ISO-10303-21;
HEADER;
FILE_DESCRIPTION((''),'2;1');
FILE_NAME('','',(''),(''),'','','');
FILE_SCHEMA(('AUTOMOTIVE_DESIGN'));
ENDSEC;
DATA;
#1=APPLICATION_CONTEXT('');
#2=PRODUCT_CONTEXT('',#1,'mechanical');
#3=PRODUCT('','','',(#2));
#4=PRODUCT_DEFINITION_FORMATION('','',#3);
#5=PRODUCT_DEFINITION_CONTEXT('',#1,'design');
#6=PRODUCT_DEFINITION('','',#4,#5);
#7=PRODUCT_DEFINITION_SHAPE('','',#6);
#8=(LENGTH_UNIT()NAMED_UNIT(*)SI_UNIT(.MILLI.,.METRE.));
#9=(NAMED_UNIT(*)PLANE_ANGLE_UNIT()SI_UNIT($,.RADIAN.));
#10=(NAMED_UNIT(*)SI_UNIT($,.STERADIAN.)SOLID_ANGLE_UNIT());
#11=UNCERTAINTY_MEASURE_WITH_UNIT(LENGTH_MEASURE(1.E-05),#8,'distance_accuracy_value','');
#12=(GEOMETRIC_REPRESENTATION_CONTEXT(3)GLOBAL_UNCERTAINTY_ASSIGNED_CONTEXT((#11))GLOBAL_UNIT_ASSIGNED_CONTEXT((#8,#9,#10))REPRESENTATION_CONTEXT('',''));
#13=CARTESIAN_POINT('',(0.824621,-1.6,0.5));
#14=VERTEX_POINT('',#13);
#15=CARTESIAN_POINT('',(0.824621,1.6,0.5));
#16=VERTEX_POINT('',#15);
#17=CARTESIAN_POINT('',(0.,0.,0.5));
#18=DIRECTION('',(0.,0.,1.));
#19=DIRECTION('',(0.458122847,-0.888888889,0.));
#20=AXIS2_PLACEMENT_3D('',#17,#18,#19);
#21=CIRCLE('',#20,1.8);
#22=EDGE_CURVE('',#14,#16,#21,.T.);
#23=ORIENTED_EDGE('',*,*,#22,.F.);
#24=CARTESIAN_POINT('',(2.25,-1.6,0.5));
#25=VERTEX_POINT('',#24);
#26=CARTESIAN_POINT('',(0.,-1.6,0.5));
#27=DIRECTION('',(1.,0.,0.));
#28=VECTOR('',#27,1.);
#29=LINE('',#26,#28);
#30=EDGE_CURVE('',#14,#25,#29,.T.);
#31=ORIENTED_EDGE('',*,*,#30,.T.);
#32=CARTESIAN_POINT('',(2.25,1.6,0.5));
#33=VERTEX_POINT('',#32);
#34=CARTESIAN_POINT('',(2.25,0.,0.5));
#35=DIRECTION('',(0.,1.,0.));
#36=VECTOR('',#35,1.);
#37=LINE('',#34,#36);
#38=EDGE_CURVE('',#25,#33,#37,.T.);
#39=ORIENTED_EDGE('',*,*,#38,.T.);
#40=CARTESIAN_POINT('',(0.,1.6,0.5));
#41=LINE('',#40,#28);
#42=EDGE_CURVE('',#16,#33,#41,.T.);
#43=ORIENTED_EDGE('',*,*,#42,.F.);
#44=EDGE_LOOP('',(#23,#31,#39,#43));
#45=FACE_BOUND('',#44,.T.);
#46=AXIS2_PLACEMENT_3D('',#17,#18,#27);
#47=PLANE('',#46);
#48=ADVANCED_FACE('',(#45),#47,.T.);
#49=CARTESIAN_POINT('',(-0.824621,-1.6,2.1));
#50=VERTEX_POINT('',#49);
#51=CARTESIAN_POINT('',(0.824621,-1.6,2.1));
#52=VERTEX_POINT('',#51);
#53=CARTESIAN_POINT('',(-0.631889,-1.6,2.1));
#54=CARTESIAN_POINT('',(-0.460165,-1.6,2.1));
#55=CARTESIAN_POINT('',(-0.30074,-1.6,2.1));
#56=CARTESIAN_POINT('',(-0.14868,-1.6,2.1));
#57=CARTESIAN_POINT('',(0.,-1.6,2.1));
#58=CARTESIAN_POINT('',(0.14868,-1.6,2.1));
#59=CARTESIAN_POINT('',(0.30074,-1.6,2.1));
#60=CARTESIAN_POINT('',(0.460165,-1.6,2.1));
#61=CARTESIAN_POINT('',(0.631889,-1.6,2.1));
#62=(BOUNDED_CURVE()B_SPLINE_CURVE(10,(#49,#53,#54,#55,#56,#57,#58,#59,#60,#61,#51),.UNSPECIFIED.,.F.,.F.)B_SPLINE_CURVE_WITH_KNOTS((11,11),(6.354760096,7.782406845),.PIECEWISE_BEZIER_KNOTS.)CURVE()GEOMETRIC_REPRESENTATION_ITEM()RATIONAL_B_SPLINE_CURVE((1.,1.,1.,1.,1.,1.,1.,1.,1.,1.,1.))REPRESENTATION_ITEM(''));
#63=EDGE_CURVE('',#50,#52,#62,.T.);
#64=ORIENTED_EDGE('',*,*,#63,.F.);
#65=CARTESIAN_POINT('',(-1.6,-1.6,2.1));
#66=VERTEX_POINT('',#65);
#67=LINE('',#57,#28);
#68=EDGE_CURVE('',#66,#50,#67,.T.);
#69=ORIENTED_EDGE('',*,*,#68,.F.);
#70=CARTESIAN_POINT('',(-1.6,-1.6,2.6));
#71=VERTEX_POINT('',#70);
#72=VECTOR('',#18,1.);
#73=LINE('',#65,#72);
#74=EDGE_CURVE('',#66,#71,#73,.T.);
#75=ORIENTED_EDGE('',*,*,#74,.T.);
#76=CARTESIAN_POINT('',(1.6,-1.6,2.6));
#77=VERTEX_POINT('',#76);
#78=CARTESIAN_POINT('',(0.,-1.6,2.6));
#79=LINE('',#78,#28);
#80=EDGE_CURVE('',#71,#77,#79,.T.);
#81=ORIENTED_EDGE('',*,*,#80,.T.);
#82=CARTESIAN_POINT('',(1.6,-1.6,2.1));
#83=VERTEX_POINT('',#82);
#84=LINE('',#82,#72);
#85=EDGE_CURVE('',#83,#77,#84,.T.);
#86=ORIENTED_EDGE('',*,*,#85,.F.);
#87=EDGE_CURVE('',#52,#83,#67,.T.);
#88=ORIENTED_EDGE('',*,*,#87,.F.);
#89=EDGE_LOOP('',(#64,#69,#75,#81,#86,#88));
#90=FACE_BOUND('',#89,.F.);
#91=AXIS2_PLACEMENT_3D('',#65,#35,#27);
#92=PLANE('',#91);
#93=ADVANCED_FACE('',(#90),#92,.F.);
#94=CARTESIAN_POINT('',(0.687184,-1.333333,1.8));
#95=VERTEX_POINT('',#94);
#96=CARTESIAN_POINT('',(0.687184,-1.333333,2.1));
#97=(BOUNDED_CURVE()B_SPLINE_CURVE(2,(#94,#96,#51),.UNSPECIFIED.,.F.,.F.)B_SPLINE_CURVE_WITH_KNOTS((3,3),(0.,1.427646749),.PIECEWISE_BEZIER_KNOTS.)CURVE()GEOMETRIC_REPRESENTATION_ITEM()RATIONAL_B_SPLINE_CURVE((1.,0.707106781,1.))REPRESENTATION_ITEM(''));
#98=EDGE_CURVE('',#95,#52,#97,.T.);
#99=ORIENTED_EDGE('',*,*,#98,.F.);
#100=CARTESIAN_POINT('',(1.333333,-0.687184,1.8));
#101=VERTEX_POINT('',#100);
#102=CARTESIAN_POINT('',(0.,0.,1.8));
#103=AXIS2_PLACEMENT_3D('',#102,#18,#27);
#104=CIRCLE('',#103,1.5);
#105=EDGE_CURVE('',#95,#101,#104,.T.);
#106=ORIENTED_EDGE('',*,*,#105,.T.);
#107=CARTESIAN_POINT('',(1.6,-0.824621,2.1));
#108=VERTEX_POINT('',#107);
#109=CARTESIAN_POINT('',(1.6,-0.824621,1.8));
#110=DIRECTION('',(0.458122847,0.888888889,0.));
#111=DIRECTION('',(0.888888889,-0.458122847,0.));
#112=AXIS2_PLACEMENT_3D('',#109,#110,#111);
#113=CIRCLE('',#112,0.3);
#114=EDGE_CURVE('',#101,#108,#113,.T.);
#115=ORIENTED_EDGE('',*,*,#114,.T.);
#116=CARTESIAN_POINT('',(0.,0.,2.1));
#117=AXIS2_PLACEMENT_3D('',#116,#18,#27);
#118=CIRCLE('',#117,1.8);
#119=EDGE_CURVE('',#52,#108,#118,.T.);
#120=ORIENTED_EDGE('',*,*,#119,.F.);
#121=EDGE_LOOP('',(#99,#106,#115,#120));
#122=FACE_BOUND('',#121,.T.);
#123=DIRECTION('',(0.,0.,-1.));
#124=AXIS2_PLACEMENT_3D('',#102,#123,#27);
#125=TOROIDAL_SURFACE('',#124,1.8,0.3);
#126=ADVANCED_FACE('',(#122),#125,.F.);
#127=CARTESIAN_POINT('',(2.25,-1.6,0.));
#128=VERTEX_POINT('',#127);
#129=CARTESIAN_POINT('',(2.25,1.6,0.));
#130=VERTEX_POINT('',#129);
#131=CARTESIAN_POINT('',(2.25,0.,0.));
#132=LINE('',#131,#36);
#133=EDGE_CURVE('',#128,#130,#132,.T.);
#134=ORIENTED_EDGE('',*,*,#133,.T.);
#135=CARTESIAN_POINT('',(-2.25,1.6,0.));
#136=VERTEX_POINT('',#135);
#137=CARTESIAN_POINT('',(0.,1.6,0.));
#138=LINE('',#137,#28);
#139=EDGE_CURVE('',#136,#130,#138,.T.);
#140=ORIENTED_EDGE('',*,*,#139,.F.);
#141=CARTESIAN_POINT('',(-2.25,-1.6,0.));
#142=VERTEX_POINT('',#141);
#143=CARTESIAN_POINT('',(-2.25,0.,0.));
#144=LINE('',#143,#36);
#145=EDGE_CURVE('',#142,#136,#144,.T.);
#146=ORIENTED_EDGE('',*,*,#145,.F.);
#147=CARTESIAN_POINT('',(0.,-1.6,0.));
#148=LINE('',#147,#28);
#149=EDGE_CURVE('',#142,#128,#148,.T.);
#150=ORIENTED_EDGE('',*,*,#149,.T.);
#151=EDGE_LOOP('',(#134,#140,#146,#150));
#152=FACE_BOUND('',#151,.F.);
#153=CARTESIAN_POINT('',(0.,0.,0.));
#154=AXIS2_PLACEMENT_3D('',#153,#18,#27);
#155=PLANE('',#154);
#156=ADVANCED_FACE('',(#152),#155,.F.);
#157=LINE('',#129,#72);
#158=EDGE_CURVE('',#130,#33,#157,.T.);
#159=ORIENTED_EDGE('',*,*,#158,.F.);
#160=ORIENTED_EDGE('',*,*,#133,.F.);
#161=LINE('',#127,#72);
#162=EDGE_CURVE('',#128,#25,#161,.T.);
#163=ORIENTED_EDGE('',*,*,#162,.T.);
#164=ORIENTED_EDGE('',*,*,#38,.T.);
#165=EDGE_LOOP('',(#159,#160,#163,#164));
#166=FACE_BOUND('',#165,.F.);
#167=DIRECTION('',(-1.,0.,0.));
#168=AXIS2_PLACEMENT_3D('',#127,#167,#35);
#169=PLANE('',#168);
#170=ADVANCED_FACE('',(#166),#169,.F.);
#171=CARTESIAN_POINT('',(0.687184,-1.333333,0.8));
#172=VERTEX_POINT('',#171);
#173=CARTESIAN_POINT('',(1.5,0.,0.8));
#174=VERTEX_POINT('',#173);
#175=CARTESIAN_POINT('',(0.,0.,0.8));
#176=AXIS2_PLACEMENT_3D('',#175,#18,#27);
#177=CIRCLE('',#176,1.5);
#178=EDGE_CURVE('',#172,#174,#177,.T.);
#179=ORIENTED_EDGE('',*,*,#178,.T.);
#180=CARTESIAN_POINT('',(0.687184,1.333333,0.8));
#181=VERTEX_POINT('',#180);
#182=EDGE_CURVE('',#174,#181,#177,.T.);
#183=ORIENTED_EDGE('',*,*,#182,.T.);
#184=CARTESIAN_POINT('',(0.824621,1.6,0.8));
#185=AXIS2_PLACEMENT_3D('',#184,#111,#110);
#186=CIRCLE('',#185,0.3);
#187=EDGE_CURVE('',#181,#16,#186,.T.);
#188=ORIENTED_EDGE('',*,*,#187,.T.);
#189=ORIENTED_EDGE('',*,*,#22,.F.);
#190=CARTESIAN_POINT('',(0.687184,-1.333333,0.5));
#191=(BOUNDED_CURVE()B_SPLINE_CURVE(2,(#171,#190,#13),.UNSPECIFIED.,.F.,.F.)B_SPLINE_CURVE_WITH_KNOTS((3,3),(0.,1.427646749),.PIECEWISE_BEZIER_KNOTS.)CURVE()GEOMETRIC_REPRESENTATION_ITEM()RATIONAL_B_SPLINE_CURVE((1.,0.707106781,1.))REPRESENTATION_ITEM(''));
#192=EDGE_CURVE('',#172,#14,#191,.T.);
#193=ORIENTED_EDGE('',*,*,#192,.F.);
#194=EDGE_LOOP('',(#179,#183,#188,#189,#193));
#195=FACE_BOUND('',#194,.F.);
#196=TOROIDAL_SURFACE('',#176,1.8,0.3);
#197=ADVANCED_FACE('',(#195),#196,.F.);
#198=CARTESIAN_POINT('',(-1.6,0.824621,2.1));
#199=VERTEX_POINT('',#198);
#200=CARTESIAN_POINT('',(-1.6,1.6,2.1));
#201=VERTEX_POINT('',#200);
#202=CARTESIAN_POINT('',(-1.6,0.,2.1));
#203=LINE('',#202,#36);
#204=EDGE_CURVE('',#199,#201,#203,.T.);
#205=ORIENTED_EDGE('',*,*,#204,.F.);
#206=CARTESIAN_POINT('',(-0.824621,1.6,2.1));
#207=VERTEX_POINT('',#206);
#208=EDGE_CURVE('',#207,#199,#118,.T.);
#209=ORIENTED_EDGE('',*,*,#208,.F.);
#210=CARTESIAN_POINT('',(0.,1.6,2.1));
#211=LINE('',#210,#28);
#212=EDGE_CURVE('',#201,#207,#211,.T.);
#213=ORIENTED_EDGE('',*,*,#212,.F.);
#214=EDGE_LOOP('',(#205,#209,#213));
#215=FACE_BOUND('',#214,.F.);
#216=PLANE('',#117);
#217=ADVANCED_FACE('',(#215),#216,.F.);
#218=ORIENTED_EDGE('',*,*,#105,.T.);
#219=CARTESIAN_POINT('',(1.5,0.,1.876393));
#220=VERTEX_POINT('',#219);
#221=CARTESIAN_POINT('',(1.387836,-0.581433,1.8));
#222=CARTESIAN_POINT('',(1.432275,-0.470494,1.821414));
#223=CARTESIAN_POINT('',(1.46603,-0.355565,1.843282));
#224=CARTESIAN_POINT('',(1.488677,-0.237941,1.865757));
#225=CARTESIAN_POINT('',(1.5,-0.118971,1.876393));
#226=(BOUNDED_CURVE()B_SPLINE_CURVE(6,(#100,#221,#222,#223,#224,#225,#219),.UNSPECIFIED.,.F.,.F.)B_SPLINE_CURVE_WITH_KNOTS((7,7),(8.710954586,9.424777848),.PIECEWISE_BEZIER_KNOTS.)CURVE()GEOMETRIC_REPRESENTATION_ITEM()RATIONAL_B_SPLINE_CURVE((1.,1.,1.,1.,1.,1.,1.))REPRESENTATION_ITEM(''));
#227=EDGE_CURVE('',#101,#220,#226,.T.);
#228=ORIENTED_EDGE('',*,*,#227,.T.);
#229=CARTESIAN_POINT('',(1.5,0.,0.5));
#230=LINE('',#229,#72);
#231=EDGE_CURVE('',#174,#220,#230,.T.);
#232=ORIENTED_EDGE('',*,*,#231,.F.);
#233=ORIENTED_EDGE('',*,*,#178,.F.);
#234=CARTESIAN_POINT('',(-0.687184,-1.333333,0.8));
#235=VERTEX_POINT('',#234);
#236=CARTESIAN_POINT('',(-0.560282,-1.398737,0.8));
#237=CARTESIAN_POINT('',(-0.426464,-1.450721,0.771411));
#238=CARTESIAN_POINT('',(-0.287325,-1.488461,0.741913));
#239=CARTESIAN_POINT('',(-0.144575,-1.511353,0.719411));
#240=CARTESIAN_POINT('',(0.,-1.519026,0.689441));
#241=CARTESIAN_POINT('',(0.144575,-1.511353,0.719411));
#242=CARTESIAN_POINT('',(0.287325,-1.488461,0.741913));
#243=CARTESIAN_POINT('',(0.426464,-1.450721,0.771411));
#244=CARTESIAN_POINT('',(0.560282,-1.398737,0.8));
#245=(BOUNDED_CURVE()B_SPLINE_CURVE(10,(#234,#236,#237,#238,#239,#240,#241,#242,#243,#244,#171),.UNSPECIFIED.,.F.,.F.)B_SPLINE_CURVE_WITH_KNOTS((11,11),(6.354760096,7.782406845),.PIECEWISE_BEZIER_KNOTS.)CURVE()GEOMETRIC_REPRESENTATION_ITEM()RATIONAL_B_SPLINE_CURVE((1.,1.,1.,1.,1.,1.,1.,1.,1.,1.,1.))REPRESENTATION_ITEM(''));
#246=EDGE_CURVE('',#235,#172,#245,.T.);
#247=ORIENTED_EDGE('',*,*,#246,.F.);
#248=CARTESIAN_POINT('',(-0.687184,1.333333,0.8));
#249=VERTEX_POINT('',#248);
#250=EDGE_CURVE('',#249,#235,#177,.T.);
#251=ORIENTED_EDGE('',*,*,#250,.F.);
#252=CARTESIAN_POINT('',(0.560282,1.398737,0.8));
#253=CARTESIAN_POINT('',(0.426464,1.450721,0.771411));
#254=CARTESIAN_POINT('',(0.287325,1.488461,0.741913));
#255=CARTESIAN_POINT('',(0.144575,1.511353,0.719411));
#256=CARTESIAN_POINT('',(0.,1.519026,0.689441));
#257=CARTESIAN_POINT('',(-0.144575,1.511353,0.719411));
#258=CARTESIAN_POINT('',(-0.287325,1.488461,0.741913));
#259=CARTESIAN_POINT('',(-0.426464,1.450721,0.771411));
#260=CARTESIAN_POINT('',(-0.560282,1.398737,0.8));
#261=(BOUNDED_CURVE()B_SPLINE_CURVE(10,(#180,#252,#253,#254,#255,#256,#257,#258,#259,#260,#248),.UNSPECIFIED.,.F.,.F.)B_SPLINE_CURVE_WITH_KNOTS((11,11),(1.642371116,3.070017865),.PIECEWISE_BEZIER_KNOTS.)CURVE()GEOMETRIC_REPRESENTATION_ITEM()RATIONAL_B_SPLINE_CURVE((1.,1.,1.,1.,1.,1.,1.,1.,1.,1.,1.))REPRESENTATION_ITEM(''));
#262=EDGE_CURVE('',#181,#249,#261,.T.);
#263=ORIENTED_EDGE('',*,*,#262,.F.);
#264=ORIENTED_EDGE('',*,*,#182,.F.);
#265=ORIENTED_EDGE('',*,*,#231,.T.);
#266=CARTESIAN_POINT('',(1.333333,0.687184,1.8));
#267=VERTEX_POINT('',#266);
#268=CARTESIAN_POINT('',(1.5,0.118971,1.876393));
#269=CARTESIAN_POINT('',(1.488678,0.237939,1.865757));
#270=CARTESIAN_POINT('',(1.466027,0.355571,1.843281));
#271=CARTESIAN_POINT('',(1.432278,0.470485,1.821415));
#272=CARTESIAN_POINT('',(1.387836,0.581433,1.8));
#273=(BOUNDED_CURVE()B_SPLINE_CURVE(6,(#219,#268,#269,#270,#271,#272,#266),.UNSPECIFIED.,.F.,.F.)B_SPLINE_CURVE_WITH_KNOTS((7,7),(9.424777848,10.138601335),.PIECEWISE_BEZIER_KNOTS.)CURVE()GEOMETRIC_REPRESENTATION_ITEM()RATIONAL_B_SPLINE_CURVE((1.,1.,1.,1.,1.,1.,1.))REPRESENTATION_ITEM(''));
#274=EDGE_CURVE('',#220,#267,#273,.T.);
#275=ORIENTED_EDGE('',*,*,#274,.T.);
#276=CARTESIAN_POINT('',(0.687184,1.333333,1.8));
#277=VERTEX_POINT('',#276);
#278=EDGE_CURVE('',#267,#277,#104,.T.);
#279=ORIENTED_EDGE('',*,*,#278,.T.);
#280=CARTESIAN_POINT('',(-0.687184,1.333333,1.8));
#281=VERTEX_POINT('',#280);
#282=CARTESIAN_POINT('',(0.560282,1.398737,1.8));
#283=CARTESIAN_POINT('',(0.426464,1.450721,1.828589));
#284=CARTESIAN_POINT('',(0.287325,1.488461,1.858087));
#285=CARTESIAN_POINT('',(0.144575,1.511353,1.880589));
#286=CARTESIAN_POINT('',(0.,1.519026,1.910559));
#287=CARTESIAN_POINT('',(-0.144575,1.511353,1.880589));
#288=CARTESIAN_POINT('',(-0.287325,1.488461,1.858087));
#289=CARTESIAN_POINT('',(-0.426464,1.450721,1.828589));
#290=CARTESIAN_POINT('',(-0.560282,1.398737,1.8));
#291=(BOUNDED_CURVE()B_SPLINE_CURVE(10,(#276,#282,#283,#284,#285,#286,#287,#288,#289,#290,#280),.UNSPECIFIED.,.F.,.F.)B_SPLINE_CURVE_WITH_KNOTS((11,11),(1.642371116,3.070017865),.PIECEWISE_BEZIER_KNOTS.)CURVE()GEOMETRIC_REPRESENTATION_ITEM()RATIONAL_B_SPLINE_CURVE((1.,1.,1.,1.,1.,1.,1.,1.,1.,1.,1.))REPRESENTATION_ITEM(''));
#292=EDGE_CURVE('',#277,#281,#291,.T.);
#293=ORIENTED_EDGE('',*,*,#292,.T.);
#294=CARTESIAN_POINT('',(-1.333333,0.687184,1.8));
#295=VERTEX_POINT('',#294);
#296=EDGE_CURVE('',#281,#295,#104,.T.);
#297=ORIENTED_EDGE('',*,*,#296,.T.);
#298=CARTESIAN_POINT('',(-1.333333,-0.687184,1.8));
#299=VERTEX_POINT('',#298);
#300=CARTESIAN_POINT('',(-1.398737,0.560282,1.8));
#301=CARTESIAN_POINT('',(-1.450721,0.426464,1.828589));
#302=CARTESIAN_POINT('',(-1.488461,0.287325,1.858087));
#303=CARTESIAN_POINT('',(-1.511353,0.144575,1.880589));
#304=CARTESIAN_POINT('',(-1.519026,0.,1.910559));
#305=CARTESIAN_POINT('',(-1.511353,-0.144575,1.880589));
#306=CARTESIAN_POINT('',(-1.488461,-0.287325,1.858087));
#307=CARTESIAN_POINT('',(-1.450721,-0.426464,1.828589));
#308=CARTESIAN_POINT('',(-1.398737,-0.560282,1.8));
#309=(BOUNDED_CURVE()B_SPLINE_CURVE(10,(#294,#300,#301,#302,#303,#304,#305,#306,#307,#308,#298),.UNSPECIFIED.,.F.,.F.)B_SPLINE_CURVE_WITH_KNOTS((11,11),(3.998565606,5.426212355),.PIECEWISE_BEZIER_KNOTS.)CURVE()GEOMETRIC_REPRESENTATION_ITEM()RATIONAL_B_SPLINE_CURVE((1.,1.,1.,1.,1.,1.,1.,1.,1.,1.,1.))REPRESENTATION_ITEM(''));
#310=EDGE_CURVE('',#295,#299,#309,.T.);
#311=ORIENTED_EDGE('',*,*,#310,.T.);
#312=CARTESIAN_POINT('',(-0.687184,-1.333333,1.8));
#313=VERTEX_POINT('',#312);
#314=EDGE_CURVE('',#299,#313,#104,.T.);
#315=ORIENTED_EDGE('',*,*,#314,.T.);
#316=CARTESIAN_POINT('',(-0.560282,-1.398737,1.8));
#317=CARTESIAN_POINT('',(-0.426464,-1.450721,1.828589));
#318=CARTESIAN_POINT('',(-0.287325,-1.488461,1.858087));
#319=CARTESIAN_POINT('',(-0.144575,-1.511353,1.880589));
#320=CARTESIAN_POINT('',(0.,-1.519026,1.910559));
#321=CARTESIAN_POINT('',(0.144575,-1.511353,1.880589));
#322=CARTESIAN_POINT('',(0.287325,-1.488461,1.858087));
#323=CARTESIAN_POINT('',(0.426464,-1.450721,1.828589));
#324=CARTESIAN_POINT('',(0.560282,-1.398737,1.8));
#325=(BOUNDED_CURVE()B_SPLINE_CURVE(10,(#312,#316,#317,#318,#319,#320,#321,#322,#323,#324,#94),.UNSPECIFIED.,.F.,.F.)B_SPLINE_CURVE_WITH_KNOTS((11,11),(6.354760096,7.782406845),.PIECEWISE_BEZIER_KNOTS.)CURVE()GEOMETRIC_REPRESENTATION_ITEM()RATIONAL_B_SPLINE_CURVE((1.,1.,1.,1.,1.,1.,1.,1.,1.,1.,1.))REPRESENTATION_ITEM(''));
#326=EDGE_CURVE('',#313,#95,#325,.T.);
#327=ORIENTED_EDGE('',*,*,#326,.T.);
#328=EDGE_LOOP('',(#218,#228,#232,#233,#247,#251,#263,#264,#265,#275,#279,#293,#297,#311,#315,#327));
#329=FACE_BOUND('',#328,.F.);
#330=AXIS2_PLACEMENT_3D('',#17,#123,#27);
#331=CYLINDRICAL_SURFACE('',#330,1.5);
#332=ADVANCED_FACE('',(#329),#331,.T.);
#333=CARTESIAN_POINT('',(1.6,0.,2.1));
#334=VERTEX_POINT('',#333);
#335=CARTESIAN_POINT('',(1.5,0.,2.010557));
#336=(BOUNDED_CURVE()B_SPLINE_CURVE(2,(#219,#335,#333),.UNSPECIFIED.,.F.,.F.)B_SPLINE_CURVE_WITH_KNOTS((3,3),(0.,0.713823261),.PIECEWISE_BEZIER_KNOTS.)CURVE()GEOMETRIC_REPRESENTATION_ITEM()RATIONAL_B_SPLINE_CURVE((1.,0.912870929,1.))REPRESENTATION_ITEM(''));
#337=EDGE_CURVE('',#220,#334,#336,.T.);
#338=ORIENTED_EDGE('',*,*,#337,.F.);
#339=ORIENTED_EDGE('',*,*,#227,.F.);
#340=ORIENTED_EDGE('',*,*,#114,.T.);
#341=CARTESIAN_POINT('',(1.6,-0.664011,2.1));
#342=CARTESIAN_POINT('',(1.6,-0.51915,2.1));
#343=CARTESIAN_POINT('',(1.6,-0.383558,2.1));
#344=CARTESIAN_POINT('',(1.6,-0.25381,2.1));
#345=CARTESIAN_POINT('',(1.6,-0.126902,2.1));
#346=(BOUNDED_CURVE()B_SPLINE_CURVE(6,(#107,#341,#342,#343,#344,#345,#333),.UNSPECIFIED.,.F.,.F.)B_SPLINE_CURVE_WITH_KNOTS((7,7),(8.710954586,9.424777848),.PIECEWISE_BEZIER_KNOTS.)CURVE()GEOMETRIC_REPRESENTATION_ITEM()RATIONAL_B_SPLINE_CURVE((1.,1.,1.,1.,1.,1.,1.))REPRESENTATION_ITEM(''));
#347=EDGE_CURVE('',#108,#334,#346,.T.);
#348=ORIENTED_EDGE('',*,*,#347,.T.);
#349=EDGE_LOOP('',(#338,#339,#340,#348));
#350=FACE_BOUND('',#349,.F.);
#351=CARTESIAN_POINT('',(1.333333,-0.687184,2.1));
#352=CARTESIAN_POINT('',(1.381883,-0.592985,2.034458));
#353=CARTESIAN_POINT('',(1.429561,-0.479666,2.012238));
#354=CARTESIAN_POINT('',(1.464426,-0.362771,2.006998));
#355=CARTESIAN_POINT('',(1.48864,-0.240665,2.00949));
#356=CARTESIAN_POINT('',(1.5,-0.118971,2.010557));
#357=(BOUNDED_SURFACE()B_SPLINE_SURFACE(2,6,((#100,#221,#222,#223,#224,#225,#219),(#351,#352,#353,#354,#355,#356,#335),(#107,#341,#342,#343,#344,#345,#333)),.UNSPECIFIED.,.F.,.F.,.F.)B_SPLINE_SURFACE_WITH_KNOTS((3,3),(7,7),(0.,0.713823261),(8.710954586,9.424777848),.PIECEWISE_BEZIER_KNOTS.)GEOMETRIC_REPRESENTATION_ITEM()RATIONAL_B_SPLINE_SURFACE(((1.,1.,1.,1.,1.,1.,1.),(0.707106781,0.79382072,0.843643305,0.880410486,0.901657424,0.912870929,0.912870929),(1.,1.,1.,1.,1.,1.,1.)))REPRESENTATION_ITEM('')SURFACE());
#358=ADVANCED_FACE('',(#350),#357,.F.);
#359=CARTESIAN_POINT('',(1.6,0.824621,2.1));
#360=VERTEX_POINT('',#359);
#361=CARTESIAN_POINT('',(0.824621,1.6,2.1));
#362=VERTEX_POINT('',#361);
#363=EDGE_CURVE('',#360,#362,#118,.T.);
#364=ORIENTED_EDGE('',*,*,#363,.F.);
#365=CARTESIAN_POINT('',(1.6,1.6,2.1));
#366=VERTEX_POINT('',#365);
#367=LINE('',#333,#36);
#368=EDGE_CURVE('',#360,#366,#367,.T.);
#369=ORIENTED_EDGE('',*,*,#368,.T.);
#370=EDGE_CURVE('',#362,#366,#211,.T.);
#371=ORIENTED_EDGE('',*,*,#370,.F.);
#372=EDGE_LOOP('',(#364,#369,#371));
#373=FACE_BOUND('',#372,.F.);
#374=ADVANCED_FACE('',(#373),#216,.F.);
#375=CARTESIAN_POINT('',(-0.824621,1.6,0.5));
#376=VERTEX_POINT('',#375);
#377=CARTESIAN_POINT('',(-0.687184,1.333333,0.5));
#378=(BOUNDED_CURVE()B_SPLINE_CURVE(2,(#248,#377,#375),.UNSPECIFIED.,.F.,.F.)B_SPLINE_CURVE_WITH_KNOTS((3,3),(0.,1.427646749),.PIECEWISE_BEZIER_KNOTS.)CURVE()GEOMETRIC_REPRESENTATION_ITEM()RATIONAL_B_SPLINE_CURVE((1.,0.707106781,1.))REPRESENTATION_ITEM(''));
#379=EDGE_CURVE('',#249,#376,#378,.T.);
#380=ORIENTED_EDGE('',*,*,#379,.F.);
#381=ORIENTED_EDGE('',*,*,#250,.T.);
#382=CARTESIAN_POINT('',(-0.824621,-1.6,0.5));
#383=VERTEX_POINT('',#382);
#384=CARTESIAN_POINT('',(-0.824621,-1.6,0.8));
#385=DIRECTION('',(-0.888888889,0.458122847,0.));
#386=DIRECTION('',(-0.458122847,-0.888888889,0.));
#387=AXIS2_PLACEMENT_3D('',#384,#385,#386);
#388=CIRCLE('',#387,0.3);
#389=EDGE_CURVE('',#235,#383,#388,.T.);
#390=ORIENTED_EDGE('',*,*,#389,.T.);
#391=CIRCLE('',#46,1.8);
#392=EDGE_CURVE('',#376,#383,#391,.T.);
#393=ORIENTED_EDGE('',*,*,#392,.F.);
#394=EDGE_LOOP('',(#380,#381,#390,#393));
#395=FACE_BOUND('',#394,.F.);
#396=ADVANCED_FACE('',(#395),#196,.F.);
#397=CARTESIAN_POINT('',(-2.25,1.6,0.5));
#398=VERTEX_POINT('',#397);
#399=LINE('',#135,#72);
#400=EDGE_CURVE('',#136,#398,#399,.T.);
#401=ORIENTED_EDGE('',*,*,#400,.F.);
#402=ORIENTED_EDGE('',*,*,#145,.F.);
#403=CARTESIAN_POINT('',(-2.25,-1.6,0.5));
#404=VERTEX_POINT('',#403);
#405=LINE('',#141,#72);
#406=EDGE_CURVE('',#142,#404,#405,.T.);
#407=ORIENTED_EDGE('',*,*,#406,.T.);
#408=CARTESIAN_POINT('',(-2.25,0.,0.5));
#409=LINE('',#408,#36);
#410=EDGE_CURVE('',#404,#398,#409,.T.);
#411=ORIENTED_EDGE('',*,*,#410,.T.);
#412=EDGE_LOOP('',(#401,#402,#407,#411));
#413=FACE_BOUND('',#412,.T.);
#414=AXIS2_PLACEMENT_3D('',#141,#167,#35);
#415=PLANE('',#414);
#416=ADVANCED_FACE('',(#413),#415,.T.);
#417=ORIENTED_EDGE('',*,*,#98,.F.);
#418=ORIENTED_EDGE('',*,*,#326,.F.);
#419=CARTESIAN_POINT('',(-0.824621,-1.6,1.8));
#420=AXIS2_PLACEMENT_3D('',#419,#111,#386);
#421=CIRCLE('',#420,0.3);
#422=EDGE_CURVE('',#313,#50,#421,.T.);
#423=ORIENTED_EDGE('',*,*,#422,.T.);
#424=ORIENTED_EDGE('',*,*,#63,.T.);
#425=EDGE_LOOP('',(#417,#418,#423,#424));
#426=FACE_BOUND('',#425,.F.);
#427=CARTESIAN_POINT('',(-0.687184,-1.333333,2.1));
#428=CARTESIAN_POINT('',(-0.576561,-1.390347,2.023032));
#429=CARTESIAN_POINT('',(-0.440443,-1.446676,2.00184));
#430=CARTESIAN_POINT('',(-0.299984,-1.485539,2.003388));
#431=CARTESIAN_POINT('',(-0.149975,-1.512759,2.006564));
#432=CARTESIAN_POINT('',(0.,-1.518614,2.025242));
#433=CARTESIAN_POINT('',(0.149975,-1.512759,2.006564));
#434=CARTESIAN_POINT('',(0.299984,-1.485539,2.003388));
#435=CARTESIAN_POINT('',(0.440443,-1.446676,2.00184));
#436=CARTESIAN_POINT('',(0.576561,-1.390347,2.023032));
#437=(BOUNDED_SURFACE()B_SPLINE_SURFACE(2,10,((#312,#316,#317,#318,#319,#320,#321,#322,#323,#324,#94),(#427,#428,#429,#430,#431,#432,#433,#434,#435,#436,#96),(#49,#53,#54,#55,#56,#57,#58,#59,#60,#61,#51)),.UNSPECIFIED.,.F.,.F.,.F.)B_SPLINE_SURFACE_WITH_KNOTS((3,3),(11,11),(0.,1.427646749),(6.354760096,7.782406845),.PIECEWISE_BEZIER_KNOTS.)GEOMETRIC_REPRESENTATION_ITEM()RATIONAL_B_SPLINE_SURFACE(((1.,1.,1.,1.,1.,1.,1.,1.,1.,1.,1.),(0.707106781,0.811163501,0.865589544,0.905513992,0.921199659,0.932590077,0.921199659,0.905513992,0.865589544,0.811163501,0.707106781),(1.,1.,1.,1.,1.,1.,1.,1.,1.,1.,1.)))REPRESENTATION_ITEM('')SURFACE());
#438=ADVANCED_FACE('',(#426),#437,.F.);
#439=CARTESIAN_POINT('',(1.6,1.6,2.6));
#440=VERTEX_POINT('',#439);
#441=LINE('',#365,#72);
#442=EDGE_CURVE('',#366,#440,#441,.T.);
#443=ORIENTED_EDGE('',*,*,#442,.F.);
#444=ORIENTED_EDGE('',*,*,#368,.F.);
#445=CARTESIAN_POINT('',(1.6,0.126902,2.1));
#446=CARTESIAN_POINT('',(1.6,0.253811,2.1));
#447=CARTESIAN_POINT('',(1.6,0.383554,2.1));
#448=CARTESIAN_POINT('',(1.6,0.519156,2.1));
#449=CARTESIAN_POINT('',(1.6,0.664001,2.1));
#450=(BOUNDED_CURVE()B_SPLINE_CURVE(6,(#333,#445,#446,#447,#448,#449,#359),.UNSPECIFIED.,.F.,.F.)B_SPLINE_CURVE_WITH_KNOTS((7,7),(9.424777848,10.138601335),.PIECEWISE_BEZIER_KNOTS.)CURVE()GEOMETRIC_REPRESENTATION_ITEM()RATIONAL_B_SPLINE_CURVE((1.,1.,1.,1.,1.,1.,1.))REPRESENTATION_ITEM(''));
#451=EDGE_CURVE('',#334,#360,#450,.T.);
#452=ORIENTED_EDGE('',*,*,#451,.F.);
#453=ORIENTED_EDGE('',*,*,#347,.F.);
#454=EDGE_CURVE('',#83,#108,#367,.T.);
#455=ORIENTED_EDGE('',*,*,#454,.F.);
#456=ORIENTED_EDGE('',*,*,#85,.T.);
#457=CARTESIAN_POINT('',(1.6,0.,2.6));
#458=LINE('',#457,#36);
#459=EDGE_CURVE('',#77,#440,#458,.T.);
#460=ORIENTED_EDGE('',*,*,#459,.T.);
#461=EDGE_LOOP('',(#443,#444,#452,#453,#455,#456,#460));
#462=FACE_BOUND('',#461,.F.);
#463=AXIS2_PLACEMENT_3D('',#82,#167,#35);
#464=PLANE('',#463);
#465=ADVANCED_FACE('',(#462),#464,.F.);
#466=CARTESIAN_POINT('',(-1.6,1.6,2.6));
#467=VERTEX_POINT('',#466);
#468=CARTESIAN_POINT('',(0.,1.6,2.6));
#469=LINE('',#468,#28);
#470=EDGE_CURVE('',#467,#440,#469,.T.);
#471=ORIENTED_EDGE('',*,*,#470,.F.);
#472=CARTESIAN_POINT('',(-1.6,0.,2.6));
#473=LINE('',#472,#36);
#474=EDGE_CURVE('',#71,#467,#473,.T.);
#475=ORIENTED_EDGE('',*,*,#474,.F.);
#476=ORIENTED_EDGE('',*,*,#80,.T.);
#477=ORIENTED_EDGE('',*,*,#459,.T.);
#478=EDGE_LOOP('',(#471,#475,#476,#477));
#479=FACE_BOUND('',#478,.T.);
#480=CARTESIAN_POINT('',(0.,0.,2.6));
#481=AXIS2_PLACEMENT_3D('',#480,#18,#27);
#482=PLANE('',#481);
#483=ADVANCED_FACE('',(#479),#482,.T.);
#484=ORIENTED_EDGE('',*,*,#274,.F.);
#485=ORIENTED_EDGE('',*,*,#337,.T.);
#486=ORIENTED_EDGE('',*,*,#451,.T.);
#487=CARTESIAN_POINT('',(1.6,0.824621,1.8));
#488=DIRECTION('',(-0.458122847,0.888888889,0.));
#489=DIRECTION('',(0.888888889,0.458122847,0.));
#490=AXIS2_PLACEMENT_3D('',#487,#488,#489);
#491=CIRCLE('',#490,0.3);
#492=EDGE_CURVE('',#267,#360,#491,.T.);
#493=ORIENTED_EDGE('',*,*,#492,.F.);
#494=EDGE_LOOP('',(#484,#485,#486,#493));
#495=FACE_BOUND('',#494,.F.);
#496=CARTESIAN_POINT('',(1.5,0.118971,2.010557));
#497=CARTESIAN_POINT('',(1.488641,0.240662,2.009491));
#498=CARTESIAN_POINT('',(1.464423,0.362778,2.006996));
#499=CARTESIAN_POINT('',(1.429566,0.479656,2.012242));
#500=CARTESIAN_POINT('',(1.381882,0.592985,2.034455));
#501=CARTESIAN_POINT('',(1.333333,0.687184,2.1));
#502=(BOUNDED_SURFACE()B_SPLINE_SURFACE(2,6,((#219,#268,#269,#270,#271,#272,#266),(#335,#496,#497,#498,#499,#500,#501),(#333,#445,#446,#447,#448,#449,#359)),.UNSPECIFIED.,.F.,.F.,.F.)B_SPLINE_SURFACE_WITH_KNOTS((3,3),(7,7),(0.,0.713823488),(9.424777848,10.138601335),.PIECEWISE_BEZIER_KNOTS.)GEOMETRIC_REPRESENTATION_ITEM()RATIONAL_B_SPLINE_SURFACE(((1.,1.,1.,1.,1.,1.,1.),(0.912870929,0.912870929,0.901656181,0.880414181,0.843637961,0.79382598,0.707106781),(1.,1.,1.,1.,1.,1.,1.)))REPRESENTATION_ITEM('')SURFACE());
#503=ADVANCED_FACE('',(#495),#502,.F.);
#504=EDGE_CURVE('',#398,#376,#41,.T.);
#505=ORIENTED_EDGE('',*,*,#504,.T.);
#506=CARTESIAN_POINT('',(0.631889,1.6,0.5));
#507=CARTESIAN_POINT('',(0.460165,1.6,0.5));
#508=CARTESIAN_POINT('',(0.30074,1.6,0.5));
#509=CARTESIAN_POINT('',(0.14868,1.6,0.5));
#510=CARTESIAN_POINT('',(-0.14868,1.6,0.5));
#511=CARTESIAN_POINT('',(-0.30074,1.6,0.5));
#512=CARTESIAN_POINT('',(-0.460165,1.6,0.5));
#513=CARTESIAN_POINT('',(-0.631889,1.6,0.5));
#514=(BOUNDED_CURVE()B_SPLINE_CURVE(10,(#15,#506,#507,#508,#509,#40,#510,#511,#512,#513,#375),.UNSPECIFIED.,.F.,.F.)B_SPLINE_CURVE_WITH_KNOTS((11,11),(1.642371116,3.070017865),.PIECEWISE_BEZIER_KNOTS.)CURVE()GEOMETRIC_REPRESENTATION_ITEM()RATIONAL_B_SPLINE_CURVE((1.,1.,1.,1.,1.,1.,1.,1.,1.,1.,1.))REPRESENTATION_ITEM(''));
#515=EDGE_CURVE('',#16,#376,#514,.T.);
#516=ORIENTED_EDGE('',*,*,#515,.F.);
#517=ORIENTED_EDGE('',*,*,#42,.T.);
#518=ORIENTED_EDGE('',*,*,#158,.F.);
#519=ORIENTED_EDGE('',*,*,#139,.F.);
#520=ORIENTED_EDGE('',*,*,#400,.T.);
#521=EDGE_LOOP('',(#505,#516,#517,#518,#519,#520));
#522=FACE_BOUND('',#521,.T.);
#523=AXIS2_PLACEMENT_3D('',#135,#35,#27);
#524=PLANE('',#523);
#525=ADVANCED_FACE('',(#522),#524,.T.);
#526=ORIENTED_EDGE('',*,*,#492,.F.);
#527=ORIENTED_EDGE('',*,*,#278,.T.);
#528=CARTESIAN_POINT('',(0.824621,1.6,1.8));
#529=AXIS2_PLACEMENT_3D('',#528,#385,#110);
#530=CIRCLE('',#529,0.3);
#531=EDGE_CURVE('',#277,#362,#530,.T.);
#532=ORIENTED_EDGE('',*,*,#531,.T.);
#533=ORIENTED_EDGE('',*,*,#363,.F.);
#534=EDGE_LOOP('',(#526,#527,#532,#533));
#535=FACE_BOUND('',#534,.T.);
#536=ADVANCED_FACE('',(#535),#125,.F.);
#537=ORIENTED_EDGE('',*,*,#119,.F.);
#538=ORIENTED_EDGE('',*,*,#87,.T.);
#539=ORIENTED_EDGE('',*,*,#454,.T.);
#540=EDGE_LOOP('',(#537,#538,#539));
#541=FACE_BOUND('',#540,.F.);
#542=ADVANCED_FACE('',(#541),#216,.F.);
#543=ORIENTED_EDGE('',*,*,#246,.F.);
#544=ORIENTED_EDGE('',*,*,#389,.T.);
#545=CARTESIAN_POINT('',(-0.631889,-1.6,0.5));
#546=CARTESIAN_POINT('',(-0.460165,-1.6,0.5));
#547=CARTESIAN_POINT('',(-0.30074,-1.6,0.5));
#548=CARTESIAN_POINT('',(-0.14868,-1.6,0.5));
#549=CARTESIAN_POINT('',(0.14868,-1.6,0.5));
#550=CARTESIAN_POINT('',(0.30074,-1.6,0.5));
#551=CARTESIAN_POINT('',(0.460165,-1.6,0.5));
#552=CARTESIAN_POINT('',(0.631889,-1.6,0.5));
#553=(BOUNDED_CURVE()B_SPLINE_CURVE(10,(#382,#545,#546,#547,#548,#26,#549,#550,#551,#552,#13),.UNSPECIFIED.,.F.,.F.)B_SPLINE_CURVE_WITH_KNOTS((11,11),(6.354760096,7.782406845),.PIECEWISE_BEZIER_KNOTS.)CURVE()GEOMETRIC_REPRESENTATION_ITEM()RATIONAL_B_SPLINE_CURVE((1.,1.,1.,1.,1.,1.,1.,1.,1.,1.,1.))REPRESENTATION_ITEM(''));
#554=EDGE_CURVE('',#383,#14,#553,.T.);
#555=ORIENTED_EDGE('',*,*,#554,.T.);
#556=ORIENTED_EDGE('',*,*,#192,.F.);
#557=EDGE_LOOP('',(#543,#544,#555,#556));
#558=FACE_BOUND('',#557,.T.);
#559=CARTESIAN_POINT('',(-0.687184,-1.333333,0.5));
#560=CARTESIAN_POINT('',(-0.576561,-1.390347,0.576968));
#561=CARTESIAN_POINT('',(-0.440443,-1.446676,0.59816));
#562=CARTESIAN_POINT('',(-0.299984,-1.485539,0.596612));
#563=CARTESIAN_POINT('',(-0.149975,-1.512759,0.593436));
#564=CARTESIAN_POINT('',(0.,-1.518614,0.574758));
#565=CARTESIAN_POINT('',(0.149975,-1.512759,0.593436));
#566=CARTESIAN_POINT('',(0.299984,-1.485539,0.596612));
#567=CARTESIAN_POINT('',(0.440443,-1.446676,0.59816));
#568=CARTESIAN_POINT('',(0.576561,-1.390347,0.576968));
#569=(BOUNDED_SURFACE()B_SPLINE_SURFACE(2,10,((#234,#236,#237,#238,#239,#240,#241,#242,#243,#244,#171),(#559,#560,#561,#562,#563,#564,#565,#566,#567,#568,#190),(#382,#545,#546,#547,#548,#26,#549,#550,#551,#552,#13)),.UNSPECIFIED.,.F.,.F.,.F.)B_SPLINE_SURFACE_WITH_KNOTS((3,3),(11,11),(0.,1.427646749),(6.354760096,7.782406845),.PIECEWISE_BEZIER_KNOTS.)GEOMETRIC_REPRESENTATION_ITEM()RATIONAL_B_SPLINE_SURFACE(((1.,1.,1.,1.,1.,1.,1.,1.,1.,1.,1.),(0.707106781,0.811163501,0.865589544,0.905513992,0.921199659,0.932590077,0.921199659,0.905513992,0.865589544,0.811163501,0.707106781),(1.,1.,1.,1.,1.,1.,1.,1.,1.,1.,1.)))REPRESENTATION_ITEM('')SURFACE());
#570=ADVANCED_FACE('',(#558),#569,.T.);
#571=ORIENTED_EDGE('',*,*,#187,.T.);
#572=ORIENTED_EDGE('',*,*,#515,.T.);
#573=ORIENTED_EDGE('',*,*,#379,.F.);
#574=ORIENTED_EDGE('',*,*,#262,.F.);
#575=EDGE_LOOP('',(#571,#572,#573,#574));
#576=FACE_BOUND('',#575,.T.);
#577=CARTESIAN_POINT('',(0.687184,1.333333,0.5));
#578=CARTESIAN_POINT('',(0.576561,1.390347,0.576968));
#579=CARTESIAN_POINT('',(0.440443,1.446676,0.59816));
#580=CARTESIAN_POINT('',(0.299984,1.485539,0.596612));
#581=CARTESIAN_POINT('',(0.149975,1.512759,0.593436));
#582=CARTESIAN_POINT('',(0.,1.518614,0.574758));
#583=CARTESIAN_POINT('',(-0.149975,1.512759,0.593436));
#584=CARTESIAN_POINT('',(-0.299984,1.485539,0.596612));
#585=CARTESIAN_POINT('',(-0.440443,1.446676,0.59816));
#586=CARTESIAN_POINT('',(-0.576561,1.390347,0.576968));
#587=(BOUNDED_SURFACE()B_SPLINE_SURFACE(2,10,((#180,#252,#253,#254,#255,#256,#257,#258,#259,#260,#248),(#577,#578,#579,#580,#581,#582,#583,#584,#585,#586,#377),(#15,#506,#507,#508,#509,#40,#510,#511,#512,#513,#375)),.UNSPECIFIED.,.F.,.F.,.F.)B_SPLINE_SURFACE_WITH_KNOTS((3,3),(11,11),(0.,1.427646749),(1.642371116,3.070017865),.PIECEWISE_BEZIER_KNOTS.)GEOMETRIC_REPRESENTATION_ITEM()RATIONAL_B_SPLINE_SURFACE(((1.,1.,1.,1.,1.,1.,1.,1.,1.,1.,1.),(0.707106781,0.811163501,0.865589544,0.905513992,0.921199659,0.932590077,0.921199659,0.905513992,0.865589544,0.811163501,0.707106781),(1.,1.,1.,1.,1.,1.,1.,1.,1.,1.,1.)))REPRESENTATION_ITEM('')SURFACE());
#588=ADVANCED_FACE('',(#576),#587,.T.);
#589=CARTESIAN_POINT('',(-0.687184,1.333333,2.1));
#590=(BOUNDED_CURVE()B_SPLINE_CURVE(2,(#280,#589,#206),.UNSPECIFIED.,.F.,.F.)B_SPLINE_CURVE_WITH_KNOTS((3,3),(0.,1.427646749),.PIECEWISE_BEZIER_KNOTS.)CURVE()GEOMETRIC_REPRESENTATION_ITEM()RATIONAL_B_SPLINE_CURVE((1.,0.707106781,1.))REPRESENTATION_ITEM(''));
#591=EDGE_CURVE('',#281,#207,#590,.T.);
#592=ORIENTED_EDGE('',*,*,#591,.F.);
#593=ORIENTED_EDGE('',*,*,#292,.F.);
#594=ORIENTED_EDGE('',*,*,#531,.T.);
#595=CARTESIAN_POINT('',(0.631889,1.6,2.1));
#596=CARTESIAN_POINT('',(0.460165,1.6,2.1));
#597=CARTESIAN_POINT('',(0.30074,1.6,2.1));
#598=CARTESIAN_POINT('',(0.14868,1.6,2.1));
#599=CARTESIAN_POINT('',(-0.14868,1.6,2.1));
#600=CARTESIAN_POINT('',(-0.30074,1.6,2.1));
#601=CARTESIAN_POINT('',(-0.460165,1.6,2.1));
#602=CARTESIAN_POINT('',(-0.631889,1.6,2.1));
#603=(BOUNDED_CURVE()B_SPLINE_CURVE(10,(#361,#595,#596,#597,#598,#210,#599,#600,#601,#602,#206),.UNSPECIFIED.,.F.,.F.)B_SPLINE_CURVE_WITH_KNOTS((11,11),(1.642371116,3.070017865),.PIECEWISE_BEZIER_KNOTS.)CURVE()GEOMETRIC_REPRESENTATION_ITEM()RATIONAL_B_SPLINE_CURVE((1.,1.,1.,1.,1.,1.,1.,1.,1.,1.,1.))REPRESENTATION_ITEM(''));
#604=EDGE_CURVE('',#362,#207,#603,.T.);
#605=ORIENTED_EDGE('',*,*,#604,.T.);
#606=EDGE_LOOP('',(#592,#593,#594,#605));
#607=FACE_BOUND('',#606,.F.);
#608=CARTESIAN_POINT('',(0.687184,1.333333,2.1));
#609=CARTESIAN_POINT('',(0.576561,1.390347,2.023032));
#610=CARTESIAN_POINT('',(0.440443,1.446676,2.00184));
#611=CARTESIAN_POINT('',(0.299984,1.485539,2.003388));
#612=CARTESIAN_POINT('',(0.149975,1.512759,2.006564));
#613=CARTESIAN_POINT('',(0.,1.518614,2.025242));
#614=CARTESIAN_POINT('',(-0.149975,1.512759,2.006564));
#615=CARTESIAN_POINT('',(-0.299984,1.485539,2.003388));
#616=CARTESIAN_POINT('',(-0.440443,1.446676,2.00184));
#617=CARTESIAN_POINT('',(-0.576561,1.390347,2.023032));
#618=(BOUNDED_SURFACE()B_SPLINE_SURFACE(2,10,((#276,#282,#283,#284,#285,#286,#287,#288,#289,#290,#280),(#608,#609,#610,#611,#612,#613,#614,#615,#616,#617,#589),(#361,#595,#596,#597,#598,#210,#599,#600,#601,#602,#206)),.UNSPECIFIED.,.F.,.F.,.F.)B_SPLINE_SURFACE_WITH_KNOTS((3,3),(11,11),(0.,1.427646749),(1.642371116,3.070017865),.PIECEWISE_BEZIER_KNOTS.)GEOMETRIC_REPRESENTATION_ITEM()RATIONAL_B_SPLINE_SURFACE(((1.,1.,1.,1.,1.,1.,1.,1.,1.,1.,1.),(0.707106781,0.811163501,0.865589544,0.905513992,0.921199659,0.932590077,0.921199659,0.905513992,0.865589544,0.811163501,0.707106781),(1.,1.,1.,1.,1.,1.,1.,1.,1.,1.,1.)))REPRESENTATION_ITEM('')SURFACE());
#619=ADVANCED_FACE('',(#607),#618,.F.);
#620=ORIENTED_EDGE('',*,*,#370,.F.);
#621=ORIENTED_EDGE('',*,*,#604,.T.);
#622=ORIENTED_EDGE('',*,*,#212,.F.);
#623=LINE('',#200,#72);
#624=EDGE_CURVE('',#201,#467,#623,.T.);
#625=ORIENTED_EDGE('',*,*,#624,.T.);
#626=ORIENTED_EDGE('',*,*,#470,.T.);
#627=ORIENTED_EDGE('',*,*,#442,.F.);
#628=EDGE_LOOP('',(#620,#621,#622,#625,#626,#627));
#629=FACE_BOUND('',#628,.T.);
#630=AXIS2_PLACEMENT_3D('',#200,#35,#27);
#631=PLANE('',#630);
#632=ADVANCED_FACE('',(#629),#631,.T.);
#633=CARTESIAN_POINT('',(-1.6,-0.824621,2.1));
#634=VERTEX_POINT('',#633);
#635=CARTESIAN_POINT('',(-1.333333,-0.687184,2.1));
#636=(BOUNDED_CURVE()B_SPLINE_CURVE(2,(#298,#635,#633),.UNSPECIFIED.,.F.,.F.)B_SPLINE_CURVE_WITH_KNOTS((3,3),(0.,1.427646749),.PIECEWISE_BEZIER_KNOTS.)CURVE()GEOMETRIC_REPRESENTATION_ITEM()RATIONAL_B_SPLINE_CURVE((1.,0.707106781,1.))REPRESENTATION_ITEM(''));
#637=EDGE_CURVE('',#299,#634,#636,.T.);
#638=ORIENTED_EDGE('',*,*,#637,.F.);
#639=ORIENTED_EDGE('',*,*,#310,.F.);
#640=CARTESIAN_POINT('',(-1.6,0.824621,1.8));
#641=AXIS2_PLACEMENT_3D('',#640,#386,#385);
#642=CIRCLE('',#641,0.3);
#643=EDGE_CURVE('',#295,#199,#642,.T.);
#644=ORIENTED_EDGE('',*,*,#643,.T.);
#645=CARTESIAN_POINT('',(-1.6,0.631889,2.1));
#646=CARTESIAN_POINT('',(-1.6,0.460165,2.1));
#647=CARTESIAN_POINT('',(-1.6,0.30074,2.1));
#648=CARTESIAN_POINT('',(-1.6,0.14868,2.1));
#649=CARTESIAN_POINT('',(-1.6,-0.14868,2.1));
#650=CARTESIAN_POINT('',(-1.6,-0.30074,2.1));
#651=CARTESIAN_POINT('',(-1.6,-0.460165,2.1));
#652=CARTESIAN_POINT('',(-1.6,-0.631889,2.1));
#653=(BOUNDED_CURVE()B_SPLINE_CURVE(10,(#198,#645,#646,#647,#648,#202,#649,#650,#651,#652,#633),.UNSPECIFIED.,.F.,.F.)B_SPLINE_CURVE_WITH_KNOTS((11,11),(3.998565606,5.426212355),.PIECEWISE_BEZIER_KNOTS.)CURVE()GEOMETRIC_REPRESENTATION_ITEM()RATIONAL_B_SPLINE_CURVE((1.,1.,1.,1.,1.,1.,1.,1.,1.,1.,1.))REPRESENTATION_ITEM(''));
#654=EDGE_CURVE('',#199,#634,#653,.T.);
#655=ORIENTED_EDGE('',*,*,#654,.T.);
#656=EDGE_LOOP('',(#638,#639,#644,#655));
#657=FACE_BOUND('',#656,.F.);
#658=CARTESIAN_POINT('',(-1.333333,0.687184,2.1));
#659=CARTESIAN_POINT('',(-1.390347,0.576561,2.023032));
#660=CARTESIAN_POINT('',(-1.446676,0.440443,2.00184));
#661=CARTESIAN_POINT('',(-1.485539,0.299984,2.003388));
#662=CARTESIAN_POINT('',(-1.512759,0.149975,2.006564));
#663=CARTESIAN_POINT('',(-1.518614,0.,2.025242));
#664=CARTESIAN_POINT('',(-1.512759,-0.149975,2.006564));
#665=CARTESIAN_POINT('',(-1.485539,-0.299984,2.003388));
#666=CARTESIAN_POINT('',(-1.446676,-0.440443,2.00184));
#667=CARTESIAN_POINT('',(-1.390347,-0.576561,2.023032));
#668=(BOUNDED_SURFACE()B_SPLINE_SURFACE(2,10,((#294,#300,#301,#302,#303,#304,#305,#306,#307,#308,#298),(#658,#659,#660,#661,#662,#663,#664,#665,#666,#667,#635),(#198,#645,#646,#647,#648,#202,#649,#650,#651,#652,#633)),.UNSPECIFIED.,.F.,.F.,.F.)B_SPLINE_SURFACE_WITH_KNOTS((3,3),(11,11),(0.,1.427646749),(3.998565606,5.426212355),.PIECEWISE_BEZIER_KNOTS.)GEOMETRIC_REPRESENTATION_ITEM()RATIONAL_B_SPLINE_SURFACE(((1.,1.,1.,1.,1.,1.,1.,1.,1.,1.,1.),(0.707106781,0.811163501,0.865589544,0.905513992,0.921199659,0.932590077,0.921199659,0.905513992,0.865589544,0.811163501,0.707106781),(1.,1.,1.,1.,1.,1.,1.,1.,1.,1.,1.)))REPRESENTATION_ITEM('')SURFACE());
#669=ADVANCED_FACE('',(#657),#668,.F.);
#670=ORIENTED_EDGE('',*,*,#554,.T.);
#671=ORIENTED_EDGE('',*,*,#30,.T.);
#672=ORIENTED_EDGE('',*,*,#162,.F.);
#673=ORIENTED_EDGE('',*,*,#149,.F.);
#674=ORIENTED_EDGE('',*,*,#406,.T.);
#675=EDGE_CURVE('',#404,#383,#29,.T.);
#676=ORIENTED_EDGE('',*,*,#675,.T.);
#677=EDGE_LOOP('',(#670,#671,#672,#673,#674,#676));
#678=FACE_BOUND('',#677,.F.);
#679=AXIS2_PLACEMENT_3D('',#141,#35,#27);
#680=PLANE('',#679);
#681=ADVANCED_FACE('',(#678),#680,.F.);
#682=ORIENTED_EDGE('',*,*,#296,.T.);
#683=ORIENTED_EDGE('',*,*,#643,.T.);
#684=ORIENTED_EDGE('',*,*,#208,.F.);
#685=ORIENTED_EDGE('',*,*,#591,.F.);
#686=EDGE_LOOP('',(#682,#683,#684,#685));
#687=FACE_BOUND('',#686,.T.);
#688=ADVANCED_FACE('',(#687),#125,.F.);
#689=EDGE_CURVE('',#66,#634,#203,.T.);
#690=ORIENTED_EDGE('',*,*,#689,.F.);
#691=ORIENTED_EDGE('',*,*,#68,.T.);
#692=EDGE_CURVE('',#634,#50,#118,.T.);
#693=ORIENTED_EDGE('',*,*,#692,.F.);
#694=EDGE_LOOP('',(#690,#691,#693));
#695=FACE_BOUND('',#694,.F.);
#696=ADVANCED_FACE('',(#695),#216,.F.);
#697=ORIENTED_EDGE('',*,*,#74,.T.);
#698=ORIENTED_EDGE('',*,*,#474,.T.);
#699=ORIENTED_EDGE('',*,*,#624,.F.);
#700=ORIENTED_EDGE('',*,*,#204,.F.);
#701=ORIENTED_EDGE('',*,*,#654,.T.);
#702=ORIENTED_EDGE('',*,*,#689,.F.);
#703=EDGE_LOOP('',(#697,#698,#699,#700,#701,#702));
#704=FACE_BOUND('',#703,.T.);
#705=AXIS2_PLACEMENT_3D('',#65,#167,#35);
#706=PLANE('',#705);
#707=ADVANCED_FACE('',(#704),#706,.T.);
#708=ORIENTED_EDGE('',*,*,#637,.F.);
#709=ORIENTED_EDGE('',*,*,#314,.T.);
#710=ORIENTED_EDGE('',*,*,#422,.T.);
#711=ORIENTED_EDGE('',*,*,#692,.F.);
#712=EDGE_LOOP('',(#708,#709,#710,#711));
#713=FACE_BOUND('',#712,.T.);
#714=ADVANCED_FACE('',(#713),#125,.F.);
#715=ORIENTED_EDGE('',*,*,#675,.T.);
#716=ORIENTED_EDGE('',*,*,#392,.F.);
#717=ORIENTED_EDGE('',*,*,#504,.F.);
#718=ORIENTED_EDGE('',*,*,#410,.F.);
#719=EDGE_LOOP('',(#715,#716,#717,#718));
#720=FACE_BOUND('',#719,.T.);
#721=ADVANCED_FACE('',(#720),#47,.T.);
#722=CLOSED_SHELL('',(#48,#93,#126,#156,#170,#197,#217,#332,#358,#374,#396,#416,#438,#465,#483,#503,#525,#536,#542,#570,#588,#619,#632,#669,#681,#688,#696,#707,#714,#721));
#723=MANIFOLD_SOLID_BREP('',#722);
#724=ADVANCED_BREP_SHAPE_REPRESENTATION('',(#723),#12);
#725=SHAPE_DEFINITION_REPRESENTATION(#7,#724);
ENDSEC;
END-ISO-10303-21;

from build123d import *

# Parameters (mm, degrees)
SKETCH_1_W      = 4.5
SKETCH_1_H      = 3.2
EXTRUDE_1_DEPTH = 0.5
SKETCH_2_R      = 1.5
EXTRUDE_2_DEPTH = 1.6
SKETCH_3_W      = 3.2
SKETCH_3_H      = 3.2
EXTRUDE_3_DEPTH = 0.5
FILLET_1_R      = 0.3
FILLET_2_R      = 0.3


with BuildPart() as part:
    # Эскиз1 → Бобышка-Вытянуть1 (new body)
    with BuildSketch(Plane.XY):
        Rectangle(SKETCH_1_W, SKETCH_1_H)
    extrude(amount=EXTRUDE_1_DEPTH)

    # Эскиз2 → Бобышка-Вытянуть2 (add)
    with BuildSketch(Plane.XY.offset(0.5)):
        Circle(SKETCH_2_R)
    extrude(amount=EXTRUDE_2_DEPTH)

    # Эскиз3 → Бобышка-Вытянуть3 (add)
    with BuildSketch(Plane.XY.offset(2.1)):
        Rectangle(SKETCH_3_W, SKETCH_3_H)
    extrude(amount=EXTRUDE_3_DEPTH)

    # Скругление1
    fillet_1_edges = [part.edges().sort_by_distance(p)[0] for p in [
        (-1.5, 0, 0.5),
    ]]
    fillet(fillet_1_edges, radius=FILLET_1_R)

    # Скругление2
    fillet_2_edges = [part.edges().sort_by_distance(p)[0] for p in [
        (-1.5, 0, 2.1),
    ]]
    fillet(fillet_2_edges, radius=FILLET_2_R)


solid = part.part
